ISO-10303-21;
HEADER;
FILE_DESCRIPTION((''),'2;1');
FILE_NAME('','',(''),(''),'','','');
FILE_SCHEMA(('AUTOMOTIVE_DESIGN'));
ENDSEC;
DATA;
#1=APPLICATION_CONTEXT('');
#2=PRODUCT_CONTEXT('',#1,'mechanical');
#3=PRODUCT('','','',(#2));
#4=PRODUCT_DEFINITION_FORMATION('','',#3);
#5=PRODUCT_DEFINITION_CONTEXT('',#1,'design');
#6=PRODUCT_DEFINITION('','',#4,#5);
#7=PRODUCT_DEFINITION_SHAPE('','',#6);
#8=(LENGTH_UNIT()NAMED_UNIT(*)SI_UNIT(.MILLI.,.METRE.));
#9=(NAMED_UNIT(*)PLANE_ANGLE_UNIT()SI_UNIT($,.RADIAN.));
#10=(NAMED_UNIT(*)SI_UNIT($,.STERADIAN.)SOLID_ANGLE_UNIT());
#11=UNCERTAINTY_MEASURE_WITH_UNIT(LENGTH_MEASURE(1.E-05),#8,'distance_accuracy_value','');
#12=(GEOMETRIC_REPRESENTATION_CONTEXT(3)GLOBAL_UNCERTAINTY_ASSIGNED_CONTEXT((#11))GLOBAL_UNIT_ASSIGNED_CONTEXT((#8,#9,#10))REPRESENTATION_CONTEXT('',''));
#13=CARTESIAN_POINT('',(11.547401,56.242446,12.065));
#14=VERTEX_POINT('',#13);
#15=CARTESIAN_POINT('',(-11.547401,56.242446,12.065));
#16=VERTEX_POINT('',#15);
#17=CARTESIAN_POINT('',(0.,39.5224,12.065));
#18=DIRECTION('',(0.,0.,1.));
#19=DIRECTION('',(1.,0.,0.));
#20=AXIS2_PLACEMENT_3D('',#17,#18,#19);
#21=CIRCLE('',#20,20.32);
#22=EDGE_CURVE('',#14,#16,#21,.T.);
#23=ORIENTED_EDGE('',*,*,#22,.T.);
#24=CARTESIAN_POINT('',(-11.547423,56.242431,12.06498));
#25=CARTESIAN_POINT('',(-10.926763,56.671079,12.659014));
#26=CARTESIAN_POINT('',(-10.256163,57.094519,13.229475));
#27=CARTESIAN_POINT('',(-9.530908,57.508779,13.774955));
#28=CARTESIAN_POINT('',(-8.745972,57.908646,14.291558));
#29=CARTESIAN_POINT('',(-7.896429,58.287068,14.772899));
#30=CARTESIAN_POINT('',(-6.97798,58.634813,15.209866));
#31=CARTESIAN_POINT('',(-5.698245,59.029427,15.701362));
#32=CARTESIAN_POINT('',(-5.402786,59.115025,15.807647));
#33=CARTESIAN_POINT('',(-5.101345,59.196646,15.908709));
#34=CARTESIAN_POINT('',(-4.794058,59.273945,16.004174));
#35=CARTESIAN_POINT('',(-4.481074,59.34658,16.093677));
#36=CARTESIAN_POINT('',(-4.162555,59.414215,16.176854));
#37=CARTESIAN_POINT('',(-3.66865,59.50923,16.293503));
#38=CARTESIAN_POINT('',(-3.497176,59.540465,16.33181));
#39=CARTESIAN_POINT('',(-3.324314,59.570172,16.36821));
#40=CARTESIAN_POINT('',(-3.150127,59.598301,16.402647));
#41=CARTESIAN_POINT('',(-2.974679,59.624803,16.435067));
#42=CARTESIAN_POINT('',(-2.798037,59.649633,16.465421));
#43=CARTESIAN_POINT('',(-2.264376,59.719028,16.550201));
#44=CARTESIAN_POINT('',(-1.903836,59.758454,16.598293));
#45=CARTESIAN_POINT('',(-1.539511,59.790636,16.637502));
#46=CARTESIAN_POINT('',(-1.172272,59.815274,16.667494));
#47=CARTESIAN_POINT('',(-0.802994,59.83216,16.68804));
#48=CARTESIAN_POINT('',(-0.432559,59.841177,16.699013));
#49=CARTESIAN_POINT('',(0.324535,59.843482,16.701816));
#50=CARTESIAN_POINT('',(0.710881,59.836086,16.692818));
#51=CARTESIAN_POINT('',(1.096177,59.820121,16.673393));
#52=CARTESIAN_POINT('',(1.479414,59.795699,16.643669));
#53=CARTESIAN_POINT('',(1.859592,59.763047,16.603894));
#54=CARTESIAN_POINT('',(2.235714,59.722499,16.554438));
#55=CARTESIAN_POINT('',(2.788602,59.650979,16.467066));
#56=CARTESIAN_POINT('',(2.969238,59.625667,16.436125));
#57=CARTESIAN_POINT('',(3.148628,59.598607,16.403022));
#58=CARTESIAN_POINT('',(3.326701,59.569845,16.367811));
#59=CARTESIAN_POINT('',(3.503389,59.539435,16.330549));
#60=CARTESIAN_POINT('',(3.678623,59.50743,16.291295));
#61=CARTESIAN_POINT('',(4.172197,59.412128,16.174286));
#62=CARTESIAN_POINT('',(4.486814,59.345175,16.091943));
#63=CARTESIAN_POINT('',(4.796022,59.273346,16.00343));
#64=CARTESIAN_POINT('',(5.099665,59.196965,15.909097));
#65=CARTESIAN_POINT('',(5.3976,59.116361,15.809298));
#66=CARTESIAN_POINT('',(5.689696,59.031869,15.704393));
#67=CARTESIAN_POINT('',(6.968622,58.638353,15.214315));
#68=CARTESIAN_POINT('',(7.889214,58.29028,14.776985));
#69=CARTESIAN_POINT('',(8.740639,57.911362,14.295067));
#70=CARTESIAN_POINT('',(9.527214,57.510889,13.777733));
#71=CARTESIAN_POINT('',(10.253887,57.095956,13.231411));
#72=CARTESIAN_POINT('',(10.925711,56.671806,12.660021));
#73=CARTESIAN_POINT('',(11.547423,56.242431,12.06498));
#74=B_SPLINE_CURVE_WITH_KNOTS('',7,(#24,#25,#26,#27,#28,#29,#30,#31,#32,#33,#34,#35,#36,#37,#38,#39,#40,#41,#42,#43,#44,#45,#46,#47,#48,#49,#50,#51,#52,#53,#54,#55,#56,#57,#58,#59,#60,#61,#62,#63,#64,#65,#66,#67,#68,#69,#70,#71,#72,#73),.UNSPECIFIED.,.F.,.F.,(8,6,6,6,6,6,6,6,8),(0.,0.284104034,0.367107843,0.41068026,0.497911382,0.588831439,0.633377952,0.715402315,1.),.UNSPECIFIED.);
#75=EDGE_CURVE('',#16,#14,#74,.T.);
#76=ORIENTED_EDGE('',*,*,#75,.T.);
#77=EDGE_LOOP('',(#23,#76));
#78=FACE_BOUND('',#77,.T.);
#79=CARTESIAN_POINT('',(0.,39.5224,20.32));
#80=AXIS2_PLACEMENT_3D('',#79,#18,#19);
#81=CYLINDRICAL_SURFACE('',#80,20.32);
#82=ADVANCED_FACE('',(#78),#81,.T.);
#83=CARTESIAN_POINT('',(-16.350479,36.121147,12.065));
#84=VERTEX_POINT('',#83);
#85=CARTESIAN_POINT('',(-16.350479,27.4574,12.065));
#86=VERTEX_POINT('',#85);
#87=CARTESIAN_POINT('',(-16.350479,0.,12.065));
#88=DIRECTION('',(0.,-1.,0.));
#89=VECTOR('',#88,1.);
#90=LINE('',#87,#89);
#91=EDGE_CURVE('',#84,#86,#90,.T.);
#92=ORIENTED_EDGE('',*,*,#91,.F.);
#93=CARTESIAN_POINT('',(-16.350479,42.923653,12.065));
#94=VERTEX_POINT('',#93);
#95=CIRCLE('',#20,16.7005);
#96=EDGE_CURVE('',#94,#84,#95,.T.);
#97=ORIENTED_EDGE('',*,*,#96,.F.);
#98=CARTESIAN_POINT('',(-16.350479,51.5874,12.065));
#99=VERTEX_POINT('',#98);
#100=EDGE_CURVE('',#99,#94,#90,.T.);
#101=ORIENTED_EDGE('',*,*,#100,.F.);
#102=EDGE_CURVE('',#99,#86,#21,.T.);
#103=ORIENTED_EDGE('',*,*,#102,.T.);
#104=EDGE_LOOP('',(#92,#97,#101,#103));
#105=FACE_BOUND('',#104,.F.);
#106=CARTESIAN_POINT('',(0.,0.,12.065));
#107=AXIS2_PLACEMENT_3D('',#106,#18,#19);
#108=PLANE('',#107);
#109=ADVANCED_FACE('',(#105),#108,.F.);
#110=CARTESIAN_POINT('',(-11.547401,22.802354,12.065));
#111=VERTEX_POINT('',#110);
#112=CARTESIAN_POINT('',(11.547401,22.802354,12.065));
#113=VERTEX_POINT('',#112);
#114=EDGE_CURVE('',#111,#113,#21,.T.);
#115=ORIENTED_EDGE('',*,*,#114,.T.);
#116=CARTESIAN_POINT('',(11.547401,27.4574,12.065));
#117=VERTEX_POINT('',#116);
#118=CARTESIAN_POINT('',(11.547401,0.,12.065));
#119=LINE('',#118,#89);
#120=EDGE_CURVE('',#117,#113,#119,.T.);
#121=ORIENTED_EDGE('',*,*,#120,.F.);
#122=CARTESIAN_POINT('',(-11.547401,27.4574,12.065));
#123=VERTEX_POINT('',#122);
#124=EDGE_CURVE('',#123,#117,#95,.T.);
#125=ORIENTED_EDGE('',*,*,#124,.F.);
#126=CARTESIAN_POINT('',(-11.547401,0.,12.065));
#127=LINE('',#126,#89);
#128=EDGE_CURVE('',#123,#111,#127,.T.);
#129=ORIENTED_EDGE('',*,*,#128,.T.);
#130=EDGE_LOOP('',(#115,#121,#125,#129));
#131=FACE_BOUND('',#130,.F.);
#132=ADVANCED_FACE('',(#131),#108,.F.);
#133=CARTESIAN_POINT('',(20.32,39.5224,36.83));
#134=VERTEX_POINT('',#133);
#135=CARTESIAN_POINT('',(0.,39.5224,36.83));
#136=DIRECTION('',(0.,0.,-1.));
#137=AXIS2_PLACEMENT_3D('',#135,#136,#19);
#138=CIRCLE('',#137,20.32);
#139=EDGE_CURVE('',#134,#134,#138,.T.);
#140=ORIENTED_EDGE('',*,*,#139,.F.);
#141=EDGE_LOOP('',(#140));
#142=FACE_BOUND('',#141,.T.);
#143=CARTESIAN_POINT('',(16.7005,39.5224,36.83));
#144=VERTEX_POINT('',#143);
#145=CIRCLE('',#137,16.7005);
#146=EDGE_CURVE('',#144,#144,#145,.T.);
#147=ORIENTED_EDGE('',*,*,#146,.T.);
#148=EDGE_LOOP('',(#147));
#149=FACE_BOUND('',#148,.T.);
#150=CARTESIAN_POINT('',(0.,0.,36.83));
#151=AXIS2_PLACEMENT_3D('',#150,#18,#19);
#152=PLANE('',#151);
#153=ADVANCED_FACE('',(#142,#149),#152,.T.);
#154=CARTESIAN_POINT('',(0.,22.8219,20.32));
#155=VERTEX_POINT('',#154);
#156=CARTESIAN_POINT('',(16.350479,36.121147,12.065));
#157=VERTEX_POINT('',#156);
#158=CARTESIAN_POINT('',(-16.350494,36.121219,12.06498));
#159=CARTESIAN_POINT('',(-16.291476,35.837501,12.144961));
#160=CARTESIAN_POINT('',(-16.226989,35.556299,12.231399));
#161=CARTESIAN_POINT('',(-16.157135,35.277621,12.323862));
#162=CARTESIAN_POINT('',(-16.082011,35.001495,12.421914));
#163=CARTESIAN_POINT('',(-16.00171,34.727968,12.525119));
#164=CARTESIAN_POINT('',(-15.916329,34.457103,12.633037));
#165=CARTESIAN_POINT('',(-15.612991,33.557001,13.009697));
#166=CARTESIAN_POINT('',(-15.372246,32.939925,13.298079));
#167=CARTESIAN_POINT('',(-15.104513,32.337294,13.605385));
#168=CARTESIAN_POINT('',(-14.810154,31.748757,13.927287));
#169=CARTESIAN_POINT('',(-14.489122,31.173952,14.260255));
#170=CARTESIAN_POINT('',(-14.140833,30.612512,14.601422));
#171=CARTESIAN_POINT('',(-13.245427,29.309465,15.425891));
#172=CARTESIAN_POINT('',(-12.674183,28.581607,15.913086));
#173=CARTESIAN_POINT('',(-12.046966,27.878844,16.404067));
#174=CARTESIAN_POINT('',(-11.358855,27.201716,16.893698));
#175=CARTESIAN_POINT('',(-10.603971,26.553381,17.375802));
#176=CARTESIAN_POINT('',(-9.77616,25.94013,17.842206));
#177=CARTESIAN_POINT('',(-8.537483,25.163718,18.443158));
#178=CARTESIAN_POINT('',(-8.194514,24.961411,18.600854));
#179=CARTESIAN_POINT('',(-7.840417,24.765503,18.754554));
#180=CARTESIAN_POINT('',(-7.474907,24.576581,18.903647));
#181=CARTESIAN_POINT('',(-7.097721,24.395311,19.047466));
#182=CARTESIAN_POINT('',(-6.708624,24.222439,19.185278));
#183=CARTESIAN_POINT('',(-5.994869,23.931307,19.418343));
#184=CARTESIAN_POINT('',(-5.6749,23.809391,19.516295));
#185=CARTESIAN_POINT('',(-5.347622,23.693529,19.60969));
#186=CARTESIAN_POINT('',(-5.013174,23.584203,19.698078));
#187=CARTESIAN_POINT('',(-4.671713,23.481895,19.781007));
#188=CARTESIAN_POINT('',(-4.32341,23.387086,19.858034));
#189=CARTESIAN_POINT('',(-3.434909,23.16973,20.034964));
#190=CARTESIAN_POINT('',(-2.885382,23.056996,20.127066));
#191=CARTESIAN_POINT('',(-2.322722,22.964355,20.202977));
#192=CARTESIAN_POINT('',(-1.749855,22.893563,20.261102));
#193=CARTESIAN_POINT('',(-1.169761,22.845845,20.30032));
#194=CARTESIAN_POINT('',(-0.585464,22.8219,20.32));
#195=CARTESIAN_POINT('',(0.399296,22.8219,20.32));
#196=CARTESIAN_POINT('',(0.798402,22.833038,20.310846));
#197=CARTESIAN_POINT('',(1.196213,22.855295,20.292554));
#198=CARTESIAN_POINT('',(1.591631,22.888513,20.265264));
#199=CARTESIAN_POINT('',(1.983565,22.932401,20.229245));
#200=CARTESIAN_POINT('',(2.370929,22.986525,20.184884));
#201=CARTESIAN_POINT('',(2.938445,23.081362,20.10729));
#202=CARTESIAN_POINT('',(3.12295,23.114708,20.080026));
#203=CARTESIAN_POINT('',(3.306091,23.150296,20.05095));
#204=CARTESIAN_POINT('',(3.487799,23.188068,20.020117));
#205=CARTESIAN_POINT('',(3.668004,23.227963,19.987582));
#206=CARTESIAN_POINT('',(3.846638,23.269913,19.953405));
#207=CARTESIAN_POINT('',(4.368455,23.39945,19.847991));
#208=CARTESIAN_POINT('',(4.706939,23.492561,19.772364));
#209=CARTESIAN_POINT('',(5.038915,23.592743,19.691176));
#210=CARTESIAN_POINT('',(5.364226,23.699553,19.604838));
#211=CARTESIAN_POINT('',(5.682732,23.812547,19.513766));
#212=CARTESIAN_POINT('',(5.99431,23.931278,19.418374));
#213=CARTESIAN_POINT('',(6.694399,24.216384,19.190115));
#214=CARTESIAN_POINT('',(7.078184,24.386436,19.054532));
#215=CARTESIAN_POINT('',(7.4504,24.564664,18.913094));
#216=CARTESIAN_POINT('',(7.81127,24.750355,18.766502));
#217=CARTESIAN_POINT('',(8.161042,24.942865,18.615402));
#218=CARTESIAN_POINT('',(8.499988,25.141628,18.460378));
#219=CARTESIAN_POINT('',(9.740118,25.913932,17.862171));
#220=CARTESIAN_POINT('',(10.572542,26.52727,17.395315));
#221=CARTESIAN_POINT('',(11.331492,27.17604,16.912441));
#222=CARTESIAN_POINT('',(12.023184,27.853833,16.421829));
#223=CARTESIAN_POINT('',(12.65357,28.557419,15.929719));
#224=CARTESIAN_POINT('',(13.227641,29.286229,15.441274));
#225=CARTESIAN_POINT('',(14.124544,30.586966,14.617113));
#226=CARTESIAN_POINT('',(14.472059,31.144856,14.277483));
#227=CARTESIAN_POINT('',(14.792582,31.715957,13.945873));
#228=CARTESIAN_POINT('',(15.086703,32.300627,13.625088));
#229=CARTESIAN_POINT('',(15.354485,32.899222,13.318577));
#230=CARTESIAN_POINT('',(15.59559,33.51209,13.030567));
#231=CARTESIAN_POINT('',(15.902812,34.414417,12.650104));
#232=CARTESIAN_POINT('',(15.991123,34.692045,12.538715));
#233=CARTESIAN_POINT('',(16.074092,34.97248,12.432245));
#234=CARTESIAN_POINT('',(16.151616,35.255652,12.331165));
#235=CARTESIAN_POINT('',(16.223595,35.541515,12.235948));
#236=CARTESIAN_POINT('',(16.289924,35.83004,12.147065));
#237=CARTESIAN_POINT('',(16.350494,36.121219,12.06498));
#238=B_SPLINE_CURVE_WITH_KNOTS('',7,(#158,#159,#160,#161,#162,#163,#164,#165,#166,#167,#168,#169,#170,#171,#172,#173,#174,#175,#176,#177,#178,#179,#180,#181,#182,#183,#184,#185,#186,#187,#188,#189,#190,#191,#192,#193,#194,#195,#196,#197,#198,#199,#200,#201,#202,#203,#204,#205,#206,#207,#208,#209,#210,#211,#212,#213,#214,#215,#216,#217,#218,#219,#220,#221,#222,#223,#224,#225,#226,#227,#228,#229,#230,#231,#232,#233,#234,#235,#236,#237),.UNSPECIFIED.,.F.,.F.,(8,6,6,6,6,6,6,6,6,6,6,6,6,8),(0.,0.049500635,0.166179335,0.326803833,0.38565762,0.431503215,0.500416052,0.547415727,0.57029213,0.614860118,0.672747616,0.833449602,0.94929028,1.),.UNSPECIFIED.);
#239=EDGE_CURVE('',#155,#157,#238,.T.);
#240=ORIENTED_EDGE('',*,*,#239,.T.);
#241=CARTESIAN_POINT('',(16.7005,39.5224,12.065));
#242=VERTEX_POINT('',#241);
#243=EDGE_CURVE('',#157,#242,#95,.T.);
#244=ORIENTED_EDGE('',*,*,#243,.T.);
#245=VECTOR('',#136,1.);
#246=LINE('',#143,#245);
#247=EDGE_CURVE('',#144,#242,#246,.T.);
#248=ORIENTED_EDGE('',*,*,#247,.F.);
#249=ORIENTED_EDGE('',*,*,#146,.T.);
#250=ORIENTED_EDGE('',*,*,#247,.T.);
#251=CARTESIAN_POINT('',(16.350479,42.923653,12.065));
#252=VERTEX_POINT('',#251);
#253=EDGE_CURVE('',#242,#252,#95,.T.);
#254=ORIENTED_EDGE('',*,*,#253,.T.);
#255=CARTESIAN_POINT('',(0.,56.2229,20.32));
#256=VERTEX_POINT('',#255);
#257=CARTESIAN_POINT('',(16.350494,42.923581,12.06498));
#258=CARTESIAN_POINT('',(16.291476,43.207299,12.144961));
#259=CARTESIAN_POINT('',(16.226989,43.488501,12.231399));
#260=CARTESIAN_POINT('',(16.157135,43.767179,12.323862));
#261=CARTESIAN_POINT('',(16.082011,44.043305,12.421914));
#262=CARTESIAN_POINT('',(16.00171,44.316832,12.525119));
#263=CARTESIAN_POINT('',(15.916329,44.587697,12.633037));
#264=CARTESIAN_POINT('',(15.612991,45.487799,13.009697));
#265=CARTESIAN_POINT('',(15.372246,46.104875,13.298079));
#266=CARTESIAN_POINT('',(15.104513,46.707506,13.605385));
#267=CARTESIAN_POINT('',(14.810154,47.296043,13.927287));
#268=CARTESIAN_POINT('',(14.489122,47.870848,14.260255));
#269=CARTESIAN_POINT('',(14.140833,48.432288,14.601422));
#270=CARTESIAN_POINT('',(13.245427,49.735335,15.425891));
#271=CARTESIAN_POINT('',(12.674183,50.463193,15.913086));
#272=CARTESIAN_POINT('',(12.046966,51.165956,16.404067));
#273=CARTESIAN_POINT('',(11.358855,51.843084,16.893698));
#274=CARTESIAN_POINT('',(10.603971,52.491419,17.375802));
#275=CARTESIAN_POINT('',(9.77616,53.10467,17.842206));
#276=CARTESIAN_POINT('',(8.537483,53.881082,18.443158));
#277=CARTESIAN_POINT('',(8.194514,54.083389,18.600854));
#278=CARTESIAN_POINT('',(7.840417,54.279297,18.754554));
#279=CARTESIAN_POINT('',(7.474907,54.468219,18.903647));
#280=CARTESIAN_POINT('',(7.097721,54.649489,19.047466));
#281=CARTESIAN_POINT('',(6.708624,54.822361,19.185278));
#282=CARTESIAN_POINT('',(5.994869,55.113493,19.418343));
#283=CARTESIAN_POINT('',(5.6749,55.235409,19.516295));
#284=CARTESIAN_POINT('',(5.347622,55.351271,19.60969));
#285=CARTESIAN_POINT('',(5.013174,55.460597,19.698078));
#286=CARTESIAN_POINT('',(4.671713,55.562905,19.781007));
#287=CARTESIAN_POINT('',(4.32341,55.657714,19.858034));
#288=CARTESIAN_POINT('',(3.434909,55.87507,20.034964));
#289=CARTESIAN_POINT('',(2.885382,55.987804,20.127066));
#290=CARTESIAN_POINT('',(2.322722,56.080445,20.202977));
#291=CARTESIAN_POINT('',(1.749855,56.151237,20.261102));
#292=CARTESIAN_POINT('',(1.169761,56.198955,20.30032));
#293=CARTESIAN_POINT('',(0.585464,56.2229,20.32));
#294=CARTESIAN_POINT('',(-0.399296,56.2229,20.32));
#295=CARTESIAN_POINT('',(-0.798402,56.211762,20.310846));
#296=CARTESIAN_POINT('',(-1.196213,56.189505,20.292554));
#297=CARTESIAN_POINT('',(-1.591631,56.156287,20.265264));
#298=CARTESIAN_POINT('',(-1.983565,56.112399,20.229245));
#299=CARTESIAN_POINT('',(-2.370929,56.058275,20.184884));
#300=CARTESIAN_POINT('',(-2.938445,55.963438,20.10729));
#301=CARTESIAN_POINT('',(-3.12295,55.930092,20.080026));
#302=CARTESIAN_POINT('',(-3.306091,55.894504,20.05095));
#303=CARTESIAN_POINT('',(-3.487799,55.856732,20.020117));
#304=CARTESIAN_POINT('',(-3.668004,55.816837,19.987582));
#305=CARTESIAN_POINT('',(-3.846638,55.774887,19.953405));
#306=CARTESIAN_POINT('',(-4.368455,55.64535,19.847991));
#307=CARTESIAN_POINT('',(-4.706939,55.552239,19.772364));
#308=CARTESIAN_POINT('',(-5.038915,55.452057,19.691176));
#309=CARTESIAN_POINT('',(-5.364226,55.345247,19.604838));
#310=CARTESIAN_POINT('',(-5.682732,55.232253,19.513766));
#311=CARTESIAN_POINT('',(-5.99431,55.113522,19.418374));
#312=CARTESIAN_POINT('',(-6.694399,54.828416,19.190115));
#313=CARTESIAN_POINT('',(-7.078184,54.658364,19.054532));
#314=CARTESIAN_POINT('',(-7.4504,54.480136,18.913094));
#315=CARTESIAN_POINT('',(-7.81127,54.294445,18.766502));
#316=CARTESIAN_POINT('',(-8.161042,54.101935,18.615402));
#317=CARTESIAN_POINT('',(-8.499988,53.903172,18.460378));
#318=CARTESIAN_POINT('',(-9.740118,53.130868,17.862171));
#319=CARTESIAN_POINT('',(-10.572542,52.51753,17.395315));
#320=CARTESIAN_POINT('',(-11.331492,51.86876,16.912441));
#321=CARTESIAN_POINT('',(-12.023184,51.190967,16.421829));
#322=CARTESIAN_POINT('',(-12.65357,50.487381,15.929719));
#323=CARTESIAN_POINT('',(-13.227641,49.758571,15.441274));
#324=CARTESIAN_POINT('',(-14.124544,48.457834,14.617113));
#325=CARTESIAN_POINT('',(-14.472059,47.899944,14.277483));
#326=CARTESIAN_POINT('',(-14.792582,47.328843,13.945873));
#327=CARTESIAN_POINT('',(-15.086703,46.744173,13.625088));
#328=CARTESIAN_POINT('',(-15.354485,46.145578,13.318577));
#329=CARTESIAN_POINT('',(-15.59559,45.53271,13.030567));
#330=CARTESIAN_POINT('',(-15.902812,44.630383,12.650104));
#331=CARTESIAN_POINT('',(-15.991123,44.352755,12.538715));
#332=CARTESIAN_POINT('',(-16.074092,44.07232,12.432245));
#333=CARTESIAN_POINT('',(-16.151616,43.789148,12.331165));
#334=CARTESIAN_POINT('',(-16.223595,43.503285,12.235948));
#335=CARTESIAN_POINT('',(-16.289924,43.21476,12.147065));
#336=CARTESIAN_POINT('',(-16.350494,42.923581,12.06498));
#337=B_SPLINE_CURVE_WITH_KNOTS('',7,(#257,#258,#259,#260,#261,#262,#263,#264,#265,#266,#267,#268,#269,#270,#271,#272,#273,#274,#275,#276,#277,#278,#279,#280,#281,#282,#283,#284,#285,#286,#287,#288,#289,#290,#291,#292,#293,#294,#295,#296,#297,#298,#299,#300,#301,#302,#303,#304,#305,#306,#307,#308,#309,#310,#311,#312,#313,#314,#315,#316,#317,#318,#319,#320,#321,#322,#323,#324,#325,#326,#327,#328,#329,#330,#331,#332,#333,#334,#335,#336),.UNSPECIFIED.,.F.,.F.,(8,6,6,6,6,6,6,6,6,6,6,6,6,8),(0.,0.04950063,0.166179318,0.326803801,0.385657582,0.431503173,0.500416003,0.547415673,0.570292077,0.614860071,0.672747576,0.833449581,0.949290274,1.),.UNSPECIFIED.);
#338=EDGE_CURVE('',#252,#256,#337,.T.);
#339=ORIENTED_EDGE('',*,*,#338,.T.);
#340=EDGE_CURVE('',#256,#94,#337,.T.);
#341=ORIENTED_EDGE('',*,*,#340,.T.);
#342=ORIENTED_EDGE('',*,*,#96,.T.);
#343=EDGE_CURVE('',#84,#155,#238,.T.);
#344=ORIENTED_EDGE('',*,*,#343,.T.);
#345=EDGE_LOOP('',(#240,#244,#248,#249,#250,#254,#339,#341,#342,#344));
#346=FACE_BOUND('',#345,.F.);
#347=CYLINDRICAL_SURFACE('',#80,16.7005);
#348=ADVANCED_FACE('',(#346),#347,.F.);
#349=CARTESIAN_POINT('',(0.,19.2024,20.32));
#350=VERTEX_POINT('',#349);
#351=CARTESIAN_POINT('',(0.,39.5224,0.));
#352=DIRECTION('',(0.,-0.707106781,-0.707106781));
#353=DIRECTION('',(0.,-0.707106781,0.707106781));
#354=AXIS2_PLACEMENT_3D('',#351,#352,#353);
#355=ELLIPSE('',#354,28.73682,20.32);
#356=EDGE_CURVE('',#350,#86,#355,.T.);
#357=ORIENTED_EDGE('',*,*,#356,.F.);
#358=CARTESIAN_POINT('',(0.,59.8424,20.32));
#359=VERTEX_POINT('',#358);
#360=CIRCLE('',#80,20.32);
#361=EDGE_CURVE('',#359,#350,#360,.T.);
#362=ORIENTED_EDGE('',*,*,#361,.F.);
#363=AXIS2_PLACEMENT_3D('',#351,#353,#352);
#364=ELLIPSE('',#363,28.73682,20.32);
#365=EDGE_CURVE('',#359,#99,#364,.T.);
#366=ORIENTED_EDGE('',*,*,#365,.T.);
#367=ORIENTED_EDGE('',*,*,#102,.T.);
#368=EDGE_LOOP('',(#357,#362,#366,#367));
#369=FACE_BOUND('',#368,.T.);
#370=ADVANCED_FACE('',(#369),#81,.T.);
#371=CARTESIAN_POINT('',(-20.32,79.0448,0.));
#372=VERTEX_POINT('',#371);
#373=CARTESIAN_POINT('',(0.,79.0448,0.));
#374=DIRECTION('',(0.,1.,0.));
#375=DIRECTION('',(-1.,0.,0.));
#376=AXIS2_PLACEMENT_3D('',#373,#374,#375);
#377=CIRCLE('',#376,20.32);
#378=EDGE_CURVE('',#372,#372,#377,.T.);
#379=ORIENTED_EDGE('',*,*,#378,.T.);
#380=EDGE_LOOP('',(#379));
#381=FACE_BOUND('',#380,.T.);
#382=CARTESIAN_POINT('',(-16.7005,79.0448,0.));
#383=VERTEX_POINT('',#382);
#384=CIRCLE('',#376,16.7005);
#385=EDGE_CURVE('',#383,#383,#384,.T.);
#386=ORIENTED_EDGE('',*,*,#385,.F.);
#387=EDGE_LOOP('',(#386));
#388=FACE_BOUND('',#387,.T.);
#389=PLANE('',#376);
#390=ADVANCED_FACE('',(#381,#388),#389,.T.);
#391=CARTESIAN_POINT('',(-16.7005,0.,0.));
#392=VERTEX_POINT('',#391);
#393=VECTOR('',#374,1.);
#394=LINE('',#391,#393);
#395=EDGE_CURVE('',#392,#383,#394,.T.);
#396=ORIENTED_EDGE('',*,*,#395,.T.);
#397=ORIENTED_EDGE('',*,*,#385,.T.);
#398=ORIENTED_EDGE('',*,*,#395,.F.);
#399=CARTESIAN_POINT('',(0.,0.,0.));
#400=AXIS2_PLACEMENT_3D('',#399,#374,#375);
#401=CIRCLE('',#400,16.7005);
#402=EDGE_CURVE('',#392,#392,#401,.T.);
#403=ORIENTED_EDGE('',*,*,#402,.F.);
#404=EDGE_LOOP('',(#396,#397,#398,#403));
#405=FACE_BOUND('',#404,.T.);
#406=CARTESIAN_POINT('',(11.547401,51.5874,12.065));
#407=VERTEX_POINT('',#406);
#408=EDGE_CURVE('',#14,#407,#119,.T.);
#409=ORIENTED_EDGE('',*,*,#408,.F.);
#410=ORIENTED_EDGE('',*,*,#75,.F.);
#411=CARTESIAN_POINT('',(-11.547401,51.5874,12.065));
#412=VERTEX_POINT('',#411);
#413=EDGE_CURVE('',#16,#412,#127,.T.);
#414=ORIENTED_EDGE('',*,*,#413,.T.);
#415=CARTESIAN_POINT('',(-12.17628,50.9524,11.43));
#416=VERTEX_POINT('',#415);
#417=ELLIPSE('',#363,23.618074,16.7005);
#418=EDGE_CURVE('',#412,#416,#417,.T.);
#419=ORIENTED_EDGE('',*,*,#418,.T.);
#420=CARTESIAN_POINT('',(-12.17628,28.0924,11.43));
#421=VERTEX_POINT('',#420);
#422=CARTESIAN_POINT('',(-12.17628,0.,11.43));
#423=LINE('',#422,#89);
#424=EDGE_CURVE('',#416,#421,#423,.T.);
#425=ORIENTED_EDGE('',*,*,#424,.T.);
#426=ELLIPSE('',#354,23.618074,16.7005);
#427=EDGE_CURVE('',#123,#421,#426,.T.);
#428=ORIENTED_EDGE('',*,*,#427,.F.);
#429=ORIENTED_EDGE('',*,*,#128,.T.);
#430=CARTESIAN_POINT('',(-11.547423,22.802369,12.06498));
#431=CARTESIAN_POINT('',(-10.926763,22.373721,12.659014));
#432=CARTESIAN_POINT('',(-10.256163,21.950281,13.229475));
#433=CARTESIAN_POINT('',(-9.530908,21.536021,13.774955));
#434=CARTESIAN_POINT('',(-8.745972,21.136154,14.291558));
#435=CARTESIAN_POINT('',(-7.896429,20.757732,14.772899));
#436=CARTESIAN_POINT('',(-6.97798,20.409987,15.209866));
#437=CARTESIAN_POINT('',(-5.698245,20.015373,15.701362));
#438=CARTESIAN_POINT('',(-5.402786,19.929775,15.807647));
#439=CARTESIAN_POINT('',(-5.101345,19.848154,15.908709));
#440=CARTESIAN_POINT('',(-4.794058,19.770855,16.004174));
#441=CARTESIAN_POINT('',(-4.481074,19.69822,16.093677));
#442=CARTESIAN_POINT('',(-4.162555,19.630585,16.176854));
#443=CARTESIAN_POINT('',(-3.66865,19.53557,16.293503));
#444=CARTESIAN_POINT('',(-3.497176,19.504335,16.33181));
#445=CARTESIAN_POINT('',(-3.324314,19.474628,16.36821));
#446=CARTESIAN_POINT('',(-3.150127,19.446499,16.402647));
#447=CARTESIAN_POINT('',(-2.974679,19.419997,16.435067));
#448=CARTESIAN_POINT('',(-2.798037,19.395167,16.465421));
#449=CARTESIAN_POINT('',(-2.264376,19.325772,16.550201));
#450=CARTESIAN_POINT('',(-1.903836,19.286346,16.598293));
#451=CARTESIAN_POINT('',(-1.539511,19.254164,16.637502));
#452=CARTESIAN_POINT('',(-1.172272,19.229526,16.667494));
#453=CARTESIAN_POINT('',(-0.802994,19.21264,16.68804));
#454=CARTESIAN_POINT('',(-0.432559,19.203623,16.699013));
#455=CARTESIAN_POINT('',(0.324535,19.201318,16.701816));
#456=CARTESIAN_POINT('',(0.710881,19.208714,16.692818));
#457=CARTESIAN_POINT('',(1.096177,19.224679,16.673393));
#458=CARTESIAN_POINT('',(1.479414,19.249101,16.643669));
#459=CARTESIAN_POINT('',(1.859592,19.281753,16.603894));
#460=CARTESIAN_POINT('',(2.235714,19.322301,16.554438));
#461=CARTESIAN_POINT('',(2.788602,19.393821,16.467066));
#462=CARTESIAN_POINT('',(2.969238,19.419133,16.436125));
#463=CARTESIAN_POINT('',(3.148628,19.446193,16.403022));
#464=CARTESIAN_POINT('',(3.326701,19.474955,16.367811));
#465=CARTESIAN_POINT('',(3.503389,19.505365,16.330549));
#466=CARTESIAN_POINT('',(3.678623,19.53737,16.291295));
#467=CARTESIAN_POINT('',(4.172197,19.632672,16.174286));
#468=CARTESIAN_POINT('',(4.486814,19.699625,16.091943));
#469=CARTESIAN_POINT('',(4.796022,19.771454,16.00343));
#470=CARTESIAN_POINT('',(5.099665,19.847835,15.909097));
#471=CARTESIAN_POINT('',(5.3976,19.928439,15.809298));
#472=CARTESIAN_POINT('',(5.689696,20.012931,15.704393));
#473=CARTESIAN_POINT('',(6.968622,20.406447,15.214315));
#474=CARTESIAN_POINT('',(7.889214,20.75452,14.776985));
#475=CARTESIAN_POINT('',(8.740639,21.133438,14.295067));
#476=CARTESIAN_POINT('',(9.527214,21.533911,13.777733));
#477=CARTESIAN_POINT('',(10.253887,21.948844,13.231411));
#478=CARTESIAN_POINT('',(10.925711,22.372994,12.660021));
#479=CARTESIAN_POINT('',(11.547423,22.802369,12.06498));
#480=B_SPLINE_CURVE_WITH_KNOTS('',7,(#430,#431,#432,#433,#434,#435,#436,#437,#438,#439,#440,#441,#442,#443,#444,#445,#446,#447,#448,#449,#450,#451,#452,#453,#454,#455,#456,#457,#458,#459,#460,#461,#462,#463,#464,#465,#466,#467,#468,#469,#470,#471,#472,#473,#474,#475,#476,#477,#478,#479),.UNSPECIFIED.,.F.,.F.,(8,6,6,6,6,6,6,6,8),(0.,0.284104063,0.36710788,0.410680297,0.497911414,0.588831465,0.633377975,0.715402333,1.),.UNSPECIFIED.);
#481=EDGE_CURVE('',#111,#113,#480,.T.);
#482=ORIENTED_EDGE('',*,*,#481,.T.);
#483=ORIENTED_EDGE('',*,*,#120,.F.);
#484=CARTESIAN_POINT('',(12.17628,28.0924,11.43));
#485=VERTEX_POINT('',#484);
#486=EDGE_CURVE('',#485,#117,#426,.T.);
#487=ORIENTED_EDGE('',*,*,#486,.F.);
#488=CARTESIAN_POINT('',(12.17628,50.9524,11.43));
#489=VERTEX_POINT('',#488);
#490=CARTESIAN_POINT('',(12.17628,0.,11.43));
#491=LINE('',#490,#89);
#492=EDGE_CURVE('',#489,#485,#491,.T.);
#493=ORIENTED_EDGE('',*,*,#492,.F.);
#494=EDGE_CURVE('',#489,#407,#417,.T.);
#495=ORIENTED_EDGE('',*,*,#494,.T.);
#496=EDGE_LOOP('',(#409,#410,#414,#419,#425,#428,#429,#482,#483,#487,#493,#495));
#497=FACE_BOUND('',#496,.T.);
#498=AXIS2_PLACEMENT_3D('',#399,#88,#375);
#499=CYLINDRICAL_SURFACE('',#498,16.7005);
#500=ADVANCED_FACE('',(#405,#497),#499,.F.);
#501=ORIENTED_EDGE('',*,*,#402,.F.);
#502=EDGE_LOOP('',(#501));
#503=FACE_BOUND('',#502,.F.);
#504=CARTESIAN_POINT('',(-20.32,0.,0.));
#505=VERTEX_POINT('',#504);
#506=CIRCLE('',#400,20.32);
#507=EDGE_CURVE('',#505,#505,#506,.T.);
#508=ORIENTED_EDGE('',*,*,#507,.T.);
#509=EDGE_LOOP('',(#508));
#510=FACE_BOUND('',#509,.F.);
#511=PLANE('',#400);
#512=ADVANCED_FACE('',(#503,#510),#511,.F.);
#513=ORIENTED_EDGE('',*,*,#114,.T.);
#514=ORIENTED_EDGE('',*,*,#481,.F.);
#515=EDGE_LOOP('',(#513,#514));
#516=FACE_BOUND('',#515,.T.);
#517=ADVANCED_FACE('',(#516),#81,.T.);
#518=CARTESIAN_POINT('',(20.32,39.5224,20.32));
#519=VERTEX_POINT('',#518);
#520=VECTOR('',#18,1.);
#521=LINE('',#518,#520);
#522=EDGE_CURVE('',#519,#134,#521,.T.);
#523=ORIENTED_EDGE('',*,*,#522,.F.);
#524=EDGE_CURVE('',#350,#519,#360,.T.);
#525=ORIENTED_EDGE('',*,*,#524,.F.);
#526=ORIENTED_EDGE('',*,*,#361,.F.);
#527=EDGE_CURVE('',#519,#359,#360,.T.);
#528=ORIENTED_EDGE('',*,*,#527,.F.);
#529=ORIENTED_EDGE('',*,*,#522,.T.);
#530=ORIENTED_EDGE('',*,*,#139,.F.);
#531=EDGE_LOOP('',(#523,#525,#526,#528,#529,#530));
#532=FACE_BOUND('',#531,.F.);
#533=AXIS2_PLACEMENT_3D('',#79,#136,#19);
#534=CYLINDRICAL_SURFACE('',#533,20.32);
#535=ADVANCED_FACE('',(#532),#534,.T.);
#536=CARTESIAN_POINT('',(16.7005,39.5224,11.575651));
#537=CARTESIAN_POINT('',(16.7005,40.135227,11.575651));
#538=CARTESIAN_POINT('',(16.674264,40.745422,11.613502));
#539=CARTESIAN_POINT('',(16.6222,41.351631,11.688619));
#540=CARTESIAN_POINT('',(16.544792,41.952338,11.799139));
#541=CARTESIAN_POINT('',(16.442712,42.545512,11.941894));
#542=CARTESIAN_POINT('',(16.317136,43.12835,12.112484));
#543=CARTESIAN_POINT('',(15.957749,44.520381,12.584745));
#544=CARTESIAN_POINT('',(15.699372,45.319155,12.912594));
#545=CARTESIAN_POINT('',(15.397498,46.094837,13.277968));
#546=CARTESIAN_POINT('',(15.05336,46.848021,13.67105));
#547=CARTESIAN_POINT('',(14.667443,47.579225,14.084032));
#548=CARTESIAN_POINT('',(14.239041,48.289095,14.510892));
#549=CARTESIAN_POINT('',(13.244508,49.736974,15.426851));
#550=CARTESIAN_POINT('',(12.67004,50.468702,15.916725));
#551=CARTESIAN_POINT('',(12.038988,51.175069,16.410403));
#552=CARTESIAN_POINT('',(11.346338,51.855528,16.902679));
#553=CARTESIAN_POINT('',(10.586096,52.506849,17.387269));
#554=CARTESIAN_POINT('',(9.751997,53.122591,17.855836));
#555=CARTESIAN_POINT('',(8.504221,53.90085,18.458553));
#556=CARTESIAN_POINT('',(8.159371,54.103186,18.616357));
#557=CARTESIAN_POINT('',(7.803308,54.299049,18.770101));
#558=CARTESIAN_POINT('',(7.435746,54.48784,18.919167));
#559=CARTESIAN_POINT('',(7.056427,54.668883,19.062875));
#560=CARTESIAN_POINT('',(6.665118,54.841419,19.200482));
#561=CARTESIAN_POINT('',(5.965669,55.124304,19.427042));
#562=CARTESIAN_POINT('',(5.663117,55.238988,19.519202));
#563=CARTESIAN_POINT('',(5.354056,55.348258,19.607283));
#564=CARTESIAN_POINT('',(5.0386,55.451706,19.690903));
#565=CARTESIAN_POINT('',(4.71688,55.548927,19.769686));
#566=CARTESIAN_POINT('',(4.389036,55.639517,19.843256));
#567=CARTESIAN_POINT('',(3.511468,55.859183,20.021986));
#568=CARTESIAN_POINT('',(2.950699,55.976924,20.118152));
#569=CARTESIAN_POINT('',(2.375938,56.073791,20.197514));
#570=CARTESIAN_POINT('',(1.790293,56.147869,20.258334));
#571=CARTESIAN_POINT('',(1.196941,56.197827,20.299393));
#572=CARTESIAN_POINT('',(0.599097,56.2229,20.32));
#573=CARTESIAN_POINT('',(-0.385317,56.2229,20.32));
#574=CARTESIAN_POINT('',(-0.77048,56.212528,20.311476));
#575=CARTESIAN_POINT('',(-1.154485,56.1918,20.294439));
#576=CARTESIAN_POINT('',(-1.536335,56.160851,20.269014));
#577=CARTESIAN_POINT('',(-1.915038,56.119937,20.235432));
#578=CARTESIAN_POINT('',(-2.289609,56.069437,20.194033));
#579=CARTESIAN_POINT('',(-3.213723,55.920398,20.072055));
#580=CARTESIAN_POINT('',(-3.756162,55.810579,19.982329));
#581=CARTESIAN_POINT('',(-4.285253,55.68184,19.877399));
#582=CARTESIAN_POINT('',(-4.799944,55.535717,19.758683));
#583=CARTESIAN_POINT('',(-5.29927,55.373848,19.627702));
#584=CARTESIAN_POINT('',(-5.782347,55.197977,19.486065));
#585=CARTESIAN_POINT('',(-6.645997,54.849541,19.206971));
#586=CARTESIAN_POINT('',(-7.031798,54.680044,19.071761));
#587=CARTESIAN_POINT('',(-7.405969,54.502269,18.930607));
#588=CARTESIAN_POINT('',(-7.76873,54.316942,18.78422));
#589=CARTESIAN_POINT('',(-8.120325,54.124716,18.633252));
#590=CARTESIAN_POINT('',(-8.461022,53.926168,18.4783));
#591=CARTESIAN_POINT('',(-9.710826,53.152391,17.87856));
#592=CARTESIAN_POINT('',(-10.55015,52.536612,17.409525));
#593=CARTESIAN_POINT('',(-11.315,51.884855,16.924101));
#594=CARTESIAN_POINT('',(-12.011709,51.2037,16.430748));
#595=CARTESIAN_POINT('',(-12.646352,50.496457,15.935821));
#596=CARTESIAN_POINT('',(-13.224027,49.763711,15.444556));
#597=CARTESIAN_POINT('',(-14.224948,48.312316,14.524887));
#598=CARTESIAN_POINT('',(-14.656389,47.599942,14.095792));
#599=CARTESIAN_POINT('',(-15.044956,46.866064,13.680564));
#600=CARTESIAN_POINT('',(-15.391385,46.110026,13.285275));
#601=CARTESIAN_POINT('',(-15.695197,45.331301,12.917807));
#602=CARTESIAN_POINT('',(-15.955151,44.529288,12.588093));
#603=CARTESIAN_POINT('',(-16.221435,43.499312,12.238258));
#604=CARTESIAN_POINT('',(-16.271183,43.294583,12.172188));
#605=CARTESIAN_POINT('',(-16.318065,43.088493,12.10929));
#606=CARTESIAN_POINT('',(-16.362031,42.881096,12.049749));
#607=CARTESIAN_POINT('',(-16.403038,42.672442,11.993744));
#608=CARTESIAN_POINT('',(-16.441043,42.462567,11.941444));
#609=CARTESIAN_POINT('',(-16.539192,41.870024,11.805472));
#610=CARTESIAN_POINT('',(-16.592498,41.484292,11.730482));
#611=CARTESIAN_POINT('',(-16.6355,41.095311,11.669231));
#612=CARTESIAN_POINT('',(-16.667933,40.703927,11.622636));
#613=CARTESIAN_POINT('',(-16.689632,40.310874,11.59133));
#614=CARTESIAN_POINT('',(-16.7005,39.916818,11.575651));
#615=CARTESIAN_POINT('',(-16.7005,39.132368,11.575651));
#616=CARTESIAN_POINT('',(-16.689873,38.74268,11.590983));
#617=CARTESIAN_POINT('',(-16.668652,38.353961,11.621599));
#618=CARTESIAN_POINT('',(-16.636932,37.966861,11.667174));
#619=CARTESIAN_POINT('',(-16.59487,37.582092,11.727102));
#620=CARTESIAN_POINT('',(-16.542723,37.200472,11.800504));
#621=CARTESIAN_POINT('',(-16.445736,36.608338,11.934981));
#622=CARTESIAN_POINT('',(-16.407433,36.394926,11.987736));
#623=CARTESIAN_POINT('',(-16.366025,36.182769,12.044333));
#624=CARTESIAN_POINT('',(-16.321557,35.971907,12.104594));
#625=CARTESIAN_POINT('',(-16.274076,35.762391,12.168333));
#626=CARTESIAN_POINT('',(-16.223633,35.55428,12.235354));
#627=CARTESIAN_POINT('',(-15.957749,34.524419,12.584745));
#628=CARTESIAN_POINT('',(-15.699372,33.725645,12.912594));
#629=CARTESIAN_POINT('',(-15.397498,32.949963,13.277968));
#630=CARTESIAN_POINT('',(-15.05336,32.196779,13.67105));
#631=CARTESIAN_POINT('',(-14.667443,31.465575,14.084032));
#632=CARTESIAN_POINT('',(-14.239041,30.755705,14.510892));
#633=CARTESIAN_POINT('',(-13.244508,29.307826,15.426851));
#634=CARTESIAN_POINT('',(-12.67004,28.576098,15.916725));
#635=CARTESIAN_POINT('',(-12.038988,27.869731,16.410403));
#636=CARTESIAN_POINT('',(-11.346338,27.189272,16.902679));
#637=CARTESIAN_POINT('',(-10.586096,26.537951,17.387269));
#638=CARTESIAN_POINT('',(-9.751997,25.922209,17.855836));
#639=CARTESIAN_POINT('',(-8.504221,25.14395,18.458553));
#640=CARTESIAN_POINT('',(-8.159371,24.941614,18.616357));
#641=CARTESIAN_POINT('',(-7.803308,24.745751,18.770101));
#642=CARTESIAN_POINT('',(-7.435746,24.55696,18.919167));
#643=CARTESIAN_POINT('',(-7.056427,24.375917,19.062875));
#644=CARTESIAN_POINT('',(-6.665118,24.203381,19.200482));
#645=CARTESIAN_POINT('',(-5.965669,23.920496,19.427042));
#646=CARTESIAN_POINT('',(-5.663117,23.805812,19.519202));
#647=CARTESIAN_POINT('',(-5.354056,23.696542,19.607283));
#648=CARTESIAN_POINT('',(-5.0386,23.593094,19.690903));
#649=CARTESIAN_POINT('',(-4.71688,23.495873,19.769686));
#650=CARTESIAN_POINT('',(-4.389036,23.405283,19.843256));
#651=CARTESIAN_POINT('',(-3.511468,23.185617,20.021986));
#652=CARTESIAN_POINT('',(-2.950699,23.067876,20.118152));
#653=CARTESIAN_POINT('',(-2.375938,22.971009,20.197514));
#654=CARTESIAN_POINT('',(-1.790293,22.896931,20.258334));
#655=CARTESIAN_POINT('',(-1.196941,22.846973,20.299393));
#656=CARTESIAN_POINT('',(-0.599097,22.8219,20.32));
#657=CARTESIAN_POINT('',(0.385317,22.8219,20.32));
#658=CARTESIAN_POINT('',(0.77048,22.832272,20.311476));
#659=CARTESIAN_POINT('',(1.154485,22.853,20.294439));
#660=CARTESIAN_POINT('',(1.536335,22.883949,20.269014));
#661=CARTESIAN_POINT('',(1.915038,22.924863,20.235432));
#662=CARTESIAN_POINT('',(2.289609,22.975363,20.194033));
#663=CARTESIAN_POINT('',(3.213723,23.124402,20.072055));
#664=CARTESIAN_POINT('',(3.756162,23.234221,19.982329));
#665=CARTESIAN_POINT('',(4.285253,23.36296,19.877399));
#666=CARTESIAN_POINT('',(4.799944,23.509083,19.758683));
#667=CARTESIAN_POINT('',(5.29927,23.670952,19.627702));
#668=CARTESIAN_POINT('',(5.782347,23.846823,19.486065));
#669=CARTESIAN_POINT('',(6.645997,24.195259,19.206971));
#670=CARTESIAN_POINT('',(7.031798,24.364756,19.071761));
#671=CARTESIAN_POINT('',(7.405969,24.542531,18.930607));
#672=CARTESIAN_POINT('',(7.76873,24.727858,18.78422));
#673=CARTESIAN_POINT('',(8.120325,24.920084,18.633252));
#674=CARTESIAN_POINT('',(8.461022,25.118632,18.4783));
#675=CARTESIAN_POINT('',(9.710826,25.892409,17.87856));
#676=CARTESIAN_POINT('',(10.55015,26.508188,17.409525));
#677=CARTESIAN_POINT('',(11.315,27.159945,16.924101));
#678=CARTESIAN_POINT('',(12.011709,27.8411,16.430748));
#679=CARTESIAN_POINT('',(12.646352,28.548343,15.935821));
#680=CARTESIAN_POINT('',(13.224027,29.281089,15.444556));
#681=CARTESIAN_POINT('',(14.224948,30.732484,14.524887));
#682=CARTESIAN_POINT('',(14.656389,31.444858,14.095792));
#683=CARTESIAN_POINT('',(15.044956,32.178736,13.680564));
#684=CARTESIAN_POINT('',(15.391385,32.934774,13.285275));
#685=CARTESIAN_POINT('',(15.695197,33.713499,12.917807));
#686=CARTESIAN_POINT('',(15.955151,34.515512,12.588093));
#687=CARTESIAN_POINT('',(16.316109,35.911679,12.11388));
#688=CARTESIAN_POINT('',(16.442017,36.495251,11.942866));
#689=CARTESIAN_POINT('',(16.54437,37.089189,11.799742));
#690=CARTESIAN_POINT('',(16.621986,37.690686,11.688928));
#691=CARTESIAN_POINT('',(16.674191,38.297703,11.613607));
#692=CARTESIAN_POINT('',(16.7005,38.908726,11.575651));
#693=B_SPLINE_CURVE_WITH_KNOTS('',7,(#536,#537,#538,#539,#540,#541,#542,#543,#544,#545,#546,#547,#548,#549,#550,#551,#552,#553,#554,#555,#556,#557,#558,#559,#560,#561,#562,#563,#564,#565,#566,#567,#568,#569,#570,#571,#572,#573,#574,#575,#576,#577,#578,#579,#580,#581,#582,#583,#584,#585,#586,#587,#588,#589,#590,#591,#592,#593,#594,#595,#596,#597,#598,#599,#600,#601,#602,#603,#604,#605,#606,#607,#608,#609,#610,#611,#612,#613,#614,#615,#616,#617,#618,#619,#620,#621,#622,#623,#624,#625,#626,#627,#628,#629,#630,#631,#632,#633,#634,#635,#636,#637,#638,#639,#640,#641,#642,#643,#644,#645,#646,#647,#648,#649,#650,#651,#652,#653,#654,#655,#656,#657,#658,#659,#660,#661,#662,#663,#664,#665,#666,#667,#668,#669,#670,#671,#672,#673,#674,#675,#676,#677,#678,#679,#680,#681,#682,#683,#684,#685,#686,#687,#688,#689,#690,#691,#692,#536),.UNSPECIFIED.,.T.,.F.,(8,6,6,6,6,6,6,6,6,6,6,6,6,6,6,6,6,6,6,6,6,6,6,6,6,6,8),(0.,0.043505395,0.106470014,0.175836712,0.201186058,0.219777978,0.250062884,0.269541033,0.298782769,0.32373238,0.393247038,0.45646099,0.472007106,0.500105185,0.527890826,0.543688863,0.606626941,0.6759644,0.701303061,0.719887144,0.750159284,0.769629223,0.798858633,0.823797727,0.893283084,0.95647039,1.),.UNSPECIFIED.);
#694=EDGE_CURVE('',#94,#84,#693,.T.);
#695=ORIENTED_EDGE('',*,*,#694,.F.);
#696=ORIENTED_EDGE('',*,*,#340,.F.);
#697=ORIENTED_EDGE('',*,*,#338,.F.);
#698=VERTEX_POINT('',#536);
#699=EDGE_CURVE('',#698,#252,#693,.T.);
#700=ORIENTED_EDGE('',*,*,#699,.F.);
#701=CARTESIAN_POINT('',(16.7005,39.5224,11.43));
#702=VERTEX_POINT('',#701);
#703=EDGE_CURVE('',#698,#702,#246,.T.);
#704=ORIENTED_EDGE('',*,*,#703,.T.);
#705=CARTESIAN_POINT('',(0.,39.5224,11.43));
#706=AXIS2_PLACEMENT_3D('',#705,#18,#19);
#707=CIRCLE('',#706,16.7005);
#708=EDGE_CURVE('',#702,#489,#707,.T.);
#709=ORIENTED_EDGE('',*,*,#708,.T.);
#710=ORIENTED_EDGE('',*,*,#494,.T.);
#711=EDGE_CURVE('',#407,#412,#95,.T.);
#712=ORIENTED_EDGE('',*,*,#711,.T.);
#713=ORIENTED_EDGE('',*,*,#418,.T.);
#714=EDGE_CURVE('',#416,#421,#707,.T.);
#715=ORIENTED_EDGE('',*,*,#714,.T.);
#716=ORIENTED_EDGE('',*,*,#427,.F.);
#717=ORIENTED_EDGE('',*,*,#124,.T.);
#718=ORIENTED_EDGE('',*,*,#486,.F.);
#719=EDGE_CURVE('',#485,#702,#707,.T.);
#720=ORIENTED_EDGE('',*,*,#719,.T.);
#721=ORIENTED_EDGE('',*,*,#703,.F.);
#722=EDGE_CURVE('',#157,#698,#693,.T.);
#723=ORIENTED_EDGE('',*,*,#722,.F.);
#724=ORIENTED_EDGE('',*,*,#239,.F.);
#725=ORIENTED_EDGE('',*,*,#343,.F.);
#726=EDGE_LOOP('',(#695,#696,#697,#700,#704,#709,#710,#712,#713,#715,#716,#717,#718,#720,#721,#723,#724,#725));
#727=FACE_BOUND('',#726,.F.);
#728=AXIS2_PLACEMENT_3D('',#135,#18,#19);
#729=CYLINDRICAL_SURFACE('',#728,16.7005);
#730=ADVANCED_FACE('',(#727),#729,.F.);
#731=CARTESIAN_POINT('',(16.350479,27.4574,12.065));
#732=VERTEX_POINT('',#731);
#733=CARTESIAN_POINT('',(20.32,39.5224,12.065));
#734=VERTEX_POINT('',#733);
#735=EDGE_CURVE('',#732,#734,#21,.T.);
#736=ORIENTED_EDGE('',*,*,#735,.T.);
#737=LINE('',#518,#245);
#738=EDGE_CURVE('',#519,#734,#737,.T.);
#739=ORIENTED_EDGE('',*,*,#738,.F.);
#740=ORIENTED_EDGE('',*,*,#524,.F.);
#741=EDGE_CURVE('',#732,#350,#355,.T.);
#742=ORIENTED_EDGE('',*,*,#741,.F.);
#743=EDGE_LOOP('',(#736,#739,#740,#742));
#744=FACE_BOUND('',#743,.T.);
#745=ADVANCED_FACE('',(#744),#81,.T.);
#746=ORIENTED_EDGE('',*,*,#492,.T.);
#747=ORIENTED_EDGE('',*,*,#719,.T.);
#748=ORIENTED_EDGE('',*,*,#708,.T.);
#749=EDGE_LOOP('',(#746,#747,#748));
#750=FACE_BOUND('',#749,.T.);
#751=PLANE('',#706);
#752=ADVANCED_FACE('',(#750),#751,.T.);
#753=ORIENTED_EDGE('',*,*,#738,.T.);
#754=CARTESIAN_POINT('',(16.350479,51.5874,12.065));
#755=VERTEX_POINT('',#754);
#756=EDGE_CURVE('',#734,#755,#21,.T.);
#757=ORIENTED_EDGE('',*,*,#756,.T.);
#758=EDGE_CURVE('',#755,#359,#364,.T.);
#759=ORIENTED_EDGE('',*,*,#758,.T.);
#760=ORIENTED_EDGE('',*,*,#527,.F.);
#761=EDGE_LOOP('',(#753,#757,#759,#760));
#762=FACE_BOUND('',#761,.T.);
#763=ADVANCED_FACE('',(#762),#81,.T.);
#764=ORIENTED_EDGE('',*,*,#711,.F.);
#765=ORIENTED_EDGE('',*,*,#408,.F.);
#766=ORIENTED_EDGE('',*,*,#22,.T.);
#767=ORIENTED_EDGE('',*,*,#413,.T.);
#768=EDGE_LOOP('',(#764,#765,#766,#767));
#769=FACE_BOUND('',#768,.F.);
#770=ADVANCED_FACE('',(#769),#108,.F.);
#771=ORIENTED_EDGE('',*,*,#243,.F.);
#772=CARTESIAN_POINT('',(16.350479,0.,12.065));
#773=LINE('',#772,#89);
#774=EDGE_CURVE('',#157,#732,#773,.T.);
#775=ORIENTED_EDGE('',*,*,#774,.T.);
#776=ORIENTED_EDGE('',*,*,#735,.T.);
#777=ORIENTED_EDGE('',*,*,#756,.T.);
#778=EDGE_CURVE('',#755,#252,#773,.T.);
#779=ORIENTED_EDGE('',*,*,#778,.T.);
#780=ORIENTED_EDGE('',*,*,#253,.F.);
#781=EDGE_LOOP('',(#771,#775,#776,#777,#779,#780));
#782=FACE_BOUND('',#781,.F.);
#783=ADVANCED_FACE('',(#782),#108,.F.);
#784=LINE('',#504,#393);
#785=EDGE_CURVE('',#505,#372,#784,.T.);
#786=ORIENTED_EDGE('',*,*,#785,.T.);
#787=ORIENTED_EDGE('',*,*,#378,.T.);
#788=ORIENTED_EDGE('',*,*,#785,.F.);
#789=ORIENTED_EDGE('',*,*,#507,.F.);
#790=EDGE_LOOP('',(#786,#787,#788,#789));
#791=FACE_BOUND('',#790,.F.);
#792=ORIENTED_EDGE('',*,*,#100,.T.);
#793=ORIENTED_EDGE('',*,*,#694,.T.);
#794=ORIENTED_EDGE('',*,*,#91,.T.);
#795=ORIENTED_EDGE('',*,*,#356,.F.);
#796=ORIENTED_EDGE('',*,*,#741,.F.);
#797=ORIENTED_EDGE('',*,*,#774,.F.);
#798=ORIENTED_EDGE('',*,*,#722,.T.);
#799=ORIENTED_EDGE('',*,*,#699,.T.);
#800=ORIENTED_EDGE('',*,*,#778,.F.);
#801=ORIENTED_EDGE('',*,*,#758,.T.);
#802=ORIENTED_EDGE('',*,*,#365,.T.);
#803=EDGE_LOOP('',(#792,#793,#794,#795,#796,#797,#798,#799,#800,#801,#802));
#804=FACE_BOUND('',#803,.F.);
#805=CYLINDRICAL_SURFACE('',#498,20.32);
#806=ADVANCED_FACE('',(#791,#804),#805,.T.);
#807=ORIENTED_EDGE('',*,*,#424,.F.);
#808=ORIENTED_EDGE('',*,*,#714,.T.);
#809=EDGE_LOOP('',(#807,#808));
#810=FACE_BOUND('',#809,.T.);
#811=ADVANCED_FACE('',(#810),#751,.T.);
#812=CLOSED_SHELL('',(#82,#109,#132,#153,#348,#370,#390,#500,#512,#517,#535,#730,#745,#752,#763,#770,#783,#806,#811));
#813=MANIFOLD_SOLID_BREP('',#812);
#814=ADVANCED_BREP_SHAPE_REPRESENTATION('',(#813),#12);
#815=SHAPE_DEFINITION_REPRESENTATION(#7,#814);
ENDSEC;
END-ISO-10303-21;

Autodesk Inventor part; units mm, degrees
ref_plane "YZ Plane" through (0, 0, 0) normal (1, 0, 0) x (0, 1, 0)
ref_plane "XZ Plane" through (0, 0, 0) normal (0, 1, 0) x (-1, 0, 0)
sketch "Sketch1" plane through (0, 0, 0) normal (0, 1, 0) x (-1, 0, 0)
  circle A0 centre (0, 0) radius 20.32
  circle A1 centre (0, 0) radius 16.7005
  dimension "d0" = 40.64
  dimension "d1" = 33.401
extrude "Extrusion1" add sketch "Sketch1" along normal blind 79.0448
ref_plane "Work Plane1" through (0, 0, 20.32) normal (0, 0, 1) x (1, 0, 0)
sketch "Sketch2" plane through (0, 0, 20.32) normal (0, 0, 1) x (1, 0, 0)
  line L0 (0, 0) -> (0, 79.0448)
  line L1 (20.32, 79.0448) -> (-20.32, 79.0448) projected
  line L2 (-20.32, 0) -> (-20.32, 79.0448) projected
  line L3 (-20.32, 39.5224) -> (20.32, 39.5224)
  line L4 (20.32, 0) -> (20.32, 79.0448) projected
  circle A0 centre (0, 39.5224) radius 16.7005
  circle A1 centre (0, 39.5224) radius 20.32
  dimension "d4" = 33.401
  dimension "d5" = 40.64
extrude "Extrusion2" add sketch "Sketch2" along normal blind 16.51 and the other way blind 8.255 contours A1 L3 A0 L0 | L0 A0 L3 A1 | A1 L0 A0 L3 | L3 A0 L0 A1
sketch "Sketch3" plane through (0, 39.5224, 36.83) normal (0, 0, 1) x (1, 0, 0)
  circle A0 centre (0, 0) radius 16.7005
  point P0 (0, -39.5224)
  dimension "d10" = 33.401
extrude "Extrusion3" cut sketch "Sketch3" against normal blind 25.4
properties part number "New Elbow"
